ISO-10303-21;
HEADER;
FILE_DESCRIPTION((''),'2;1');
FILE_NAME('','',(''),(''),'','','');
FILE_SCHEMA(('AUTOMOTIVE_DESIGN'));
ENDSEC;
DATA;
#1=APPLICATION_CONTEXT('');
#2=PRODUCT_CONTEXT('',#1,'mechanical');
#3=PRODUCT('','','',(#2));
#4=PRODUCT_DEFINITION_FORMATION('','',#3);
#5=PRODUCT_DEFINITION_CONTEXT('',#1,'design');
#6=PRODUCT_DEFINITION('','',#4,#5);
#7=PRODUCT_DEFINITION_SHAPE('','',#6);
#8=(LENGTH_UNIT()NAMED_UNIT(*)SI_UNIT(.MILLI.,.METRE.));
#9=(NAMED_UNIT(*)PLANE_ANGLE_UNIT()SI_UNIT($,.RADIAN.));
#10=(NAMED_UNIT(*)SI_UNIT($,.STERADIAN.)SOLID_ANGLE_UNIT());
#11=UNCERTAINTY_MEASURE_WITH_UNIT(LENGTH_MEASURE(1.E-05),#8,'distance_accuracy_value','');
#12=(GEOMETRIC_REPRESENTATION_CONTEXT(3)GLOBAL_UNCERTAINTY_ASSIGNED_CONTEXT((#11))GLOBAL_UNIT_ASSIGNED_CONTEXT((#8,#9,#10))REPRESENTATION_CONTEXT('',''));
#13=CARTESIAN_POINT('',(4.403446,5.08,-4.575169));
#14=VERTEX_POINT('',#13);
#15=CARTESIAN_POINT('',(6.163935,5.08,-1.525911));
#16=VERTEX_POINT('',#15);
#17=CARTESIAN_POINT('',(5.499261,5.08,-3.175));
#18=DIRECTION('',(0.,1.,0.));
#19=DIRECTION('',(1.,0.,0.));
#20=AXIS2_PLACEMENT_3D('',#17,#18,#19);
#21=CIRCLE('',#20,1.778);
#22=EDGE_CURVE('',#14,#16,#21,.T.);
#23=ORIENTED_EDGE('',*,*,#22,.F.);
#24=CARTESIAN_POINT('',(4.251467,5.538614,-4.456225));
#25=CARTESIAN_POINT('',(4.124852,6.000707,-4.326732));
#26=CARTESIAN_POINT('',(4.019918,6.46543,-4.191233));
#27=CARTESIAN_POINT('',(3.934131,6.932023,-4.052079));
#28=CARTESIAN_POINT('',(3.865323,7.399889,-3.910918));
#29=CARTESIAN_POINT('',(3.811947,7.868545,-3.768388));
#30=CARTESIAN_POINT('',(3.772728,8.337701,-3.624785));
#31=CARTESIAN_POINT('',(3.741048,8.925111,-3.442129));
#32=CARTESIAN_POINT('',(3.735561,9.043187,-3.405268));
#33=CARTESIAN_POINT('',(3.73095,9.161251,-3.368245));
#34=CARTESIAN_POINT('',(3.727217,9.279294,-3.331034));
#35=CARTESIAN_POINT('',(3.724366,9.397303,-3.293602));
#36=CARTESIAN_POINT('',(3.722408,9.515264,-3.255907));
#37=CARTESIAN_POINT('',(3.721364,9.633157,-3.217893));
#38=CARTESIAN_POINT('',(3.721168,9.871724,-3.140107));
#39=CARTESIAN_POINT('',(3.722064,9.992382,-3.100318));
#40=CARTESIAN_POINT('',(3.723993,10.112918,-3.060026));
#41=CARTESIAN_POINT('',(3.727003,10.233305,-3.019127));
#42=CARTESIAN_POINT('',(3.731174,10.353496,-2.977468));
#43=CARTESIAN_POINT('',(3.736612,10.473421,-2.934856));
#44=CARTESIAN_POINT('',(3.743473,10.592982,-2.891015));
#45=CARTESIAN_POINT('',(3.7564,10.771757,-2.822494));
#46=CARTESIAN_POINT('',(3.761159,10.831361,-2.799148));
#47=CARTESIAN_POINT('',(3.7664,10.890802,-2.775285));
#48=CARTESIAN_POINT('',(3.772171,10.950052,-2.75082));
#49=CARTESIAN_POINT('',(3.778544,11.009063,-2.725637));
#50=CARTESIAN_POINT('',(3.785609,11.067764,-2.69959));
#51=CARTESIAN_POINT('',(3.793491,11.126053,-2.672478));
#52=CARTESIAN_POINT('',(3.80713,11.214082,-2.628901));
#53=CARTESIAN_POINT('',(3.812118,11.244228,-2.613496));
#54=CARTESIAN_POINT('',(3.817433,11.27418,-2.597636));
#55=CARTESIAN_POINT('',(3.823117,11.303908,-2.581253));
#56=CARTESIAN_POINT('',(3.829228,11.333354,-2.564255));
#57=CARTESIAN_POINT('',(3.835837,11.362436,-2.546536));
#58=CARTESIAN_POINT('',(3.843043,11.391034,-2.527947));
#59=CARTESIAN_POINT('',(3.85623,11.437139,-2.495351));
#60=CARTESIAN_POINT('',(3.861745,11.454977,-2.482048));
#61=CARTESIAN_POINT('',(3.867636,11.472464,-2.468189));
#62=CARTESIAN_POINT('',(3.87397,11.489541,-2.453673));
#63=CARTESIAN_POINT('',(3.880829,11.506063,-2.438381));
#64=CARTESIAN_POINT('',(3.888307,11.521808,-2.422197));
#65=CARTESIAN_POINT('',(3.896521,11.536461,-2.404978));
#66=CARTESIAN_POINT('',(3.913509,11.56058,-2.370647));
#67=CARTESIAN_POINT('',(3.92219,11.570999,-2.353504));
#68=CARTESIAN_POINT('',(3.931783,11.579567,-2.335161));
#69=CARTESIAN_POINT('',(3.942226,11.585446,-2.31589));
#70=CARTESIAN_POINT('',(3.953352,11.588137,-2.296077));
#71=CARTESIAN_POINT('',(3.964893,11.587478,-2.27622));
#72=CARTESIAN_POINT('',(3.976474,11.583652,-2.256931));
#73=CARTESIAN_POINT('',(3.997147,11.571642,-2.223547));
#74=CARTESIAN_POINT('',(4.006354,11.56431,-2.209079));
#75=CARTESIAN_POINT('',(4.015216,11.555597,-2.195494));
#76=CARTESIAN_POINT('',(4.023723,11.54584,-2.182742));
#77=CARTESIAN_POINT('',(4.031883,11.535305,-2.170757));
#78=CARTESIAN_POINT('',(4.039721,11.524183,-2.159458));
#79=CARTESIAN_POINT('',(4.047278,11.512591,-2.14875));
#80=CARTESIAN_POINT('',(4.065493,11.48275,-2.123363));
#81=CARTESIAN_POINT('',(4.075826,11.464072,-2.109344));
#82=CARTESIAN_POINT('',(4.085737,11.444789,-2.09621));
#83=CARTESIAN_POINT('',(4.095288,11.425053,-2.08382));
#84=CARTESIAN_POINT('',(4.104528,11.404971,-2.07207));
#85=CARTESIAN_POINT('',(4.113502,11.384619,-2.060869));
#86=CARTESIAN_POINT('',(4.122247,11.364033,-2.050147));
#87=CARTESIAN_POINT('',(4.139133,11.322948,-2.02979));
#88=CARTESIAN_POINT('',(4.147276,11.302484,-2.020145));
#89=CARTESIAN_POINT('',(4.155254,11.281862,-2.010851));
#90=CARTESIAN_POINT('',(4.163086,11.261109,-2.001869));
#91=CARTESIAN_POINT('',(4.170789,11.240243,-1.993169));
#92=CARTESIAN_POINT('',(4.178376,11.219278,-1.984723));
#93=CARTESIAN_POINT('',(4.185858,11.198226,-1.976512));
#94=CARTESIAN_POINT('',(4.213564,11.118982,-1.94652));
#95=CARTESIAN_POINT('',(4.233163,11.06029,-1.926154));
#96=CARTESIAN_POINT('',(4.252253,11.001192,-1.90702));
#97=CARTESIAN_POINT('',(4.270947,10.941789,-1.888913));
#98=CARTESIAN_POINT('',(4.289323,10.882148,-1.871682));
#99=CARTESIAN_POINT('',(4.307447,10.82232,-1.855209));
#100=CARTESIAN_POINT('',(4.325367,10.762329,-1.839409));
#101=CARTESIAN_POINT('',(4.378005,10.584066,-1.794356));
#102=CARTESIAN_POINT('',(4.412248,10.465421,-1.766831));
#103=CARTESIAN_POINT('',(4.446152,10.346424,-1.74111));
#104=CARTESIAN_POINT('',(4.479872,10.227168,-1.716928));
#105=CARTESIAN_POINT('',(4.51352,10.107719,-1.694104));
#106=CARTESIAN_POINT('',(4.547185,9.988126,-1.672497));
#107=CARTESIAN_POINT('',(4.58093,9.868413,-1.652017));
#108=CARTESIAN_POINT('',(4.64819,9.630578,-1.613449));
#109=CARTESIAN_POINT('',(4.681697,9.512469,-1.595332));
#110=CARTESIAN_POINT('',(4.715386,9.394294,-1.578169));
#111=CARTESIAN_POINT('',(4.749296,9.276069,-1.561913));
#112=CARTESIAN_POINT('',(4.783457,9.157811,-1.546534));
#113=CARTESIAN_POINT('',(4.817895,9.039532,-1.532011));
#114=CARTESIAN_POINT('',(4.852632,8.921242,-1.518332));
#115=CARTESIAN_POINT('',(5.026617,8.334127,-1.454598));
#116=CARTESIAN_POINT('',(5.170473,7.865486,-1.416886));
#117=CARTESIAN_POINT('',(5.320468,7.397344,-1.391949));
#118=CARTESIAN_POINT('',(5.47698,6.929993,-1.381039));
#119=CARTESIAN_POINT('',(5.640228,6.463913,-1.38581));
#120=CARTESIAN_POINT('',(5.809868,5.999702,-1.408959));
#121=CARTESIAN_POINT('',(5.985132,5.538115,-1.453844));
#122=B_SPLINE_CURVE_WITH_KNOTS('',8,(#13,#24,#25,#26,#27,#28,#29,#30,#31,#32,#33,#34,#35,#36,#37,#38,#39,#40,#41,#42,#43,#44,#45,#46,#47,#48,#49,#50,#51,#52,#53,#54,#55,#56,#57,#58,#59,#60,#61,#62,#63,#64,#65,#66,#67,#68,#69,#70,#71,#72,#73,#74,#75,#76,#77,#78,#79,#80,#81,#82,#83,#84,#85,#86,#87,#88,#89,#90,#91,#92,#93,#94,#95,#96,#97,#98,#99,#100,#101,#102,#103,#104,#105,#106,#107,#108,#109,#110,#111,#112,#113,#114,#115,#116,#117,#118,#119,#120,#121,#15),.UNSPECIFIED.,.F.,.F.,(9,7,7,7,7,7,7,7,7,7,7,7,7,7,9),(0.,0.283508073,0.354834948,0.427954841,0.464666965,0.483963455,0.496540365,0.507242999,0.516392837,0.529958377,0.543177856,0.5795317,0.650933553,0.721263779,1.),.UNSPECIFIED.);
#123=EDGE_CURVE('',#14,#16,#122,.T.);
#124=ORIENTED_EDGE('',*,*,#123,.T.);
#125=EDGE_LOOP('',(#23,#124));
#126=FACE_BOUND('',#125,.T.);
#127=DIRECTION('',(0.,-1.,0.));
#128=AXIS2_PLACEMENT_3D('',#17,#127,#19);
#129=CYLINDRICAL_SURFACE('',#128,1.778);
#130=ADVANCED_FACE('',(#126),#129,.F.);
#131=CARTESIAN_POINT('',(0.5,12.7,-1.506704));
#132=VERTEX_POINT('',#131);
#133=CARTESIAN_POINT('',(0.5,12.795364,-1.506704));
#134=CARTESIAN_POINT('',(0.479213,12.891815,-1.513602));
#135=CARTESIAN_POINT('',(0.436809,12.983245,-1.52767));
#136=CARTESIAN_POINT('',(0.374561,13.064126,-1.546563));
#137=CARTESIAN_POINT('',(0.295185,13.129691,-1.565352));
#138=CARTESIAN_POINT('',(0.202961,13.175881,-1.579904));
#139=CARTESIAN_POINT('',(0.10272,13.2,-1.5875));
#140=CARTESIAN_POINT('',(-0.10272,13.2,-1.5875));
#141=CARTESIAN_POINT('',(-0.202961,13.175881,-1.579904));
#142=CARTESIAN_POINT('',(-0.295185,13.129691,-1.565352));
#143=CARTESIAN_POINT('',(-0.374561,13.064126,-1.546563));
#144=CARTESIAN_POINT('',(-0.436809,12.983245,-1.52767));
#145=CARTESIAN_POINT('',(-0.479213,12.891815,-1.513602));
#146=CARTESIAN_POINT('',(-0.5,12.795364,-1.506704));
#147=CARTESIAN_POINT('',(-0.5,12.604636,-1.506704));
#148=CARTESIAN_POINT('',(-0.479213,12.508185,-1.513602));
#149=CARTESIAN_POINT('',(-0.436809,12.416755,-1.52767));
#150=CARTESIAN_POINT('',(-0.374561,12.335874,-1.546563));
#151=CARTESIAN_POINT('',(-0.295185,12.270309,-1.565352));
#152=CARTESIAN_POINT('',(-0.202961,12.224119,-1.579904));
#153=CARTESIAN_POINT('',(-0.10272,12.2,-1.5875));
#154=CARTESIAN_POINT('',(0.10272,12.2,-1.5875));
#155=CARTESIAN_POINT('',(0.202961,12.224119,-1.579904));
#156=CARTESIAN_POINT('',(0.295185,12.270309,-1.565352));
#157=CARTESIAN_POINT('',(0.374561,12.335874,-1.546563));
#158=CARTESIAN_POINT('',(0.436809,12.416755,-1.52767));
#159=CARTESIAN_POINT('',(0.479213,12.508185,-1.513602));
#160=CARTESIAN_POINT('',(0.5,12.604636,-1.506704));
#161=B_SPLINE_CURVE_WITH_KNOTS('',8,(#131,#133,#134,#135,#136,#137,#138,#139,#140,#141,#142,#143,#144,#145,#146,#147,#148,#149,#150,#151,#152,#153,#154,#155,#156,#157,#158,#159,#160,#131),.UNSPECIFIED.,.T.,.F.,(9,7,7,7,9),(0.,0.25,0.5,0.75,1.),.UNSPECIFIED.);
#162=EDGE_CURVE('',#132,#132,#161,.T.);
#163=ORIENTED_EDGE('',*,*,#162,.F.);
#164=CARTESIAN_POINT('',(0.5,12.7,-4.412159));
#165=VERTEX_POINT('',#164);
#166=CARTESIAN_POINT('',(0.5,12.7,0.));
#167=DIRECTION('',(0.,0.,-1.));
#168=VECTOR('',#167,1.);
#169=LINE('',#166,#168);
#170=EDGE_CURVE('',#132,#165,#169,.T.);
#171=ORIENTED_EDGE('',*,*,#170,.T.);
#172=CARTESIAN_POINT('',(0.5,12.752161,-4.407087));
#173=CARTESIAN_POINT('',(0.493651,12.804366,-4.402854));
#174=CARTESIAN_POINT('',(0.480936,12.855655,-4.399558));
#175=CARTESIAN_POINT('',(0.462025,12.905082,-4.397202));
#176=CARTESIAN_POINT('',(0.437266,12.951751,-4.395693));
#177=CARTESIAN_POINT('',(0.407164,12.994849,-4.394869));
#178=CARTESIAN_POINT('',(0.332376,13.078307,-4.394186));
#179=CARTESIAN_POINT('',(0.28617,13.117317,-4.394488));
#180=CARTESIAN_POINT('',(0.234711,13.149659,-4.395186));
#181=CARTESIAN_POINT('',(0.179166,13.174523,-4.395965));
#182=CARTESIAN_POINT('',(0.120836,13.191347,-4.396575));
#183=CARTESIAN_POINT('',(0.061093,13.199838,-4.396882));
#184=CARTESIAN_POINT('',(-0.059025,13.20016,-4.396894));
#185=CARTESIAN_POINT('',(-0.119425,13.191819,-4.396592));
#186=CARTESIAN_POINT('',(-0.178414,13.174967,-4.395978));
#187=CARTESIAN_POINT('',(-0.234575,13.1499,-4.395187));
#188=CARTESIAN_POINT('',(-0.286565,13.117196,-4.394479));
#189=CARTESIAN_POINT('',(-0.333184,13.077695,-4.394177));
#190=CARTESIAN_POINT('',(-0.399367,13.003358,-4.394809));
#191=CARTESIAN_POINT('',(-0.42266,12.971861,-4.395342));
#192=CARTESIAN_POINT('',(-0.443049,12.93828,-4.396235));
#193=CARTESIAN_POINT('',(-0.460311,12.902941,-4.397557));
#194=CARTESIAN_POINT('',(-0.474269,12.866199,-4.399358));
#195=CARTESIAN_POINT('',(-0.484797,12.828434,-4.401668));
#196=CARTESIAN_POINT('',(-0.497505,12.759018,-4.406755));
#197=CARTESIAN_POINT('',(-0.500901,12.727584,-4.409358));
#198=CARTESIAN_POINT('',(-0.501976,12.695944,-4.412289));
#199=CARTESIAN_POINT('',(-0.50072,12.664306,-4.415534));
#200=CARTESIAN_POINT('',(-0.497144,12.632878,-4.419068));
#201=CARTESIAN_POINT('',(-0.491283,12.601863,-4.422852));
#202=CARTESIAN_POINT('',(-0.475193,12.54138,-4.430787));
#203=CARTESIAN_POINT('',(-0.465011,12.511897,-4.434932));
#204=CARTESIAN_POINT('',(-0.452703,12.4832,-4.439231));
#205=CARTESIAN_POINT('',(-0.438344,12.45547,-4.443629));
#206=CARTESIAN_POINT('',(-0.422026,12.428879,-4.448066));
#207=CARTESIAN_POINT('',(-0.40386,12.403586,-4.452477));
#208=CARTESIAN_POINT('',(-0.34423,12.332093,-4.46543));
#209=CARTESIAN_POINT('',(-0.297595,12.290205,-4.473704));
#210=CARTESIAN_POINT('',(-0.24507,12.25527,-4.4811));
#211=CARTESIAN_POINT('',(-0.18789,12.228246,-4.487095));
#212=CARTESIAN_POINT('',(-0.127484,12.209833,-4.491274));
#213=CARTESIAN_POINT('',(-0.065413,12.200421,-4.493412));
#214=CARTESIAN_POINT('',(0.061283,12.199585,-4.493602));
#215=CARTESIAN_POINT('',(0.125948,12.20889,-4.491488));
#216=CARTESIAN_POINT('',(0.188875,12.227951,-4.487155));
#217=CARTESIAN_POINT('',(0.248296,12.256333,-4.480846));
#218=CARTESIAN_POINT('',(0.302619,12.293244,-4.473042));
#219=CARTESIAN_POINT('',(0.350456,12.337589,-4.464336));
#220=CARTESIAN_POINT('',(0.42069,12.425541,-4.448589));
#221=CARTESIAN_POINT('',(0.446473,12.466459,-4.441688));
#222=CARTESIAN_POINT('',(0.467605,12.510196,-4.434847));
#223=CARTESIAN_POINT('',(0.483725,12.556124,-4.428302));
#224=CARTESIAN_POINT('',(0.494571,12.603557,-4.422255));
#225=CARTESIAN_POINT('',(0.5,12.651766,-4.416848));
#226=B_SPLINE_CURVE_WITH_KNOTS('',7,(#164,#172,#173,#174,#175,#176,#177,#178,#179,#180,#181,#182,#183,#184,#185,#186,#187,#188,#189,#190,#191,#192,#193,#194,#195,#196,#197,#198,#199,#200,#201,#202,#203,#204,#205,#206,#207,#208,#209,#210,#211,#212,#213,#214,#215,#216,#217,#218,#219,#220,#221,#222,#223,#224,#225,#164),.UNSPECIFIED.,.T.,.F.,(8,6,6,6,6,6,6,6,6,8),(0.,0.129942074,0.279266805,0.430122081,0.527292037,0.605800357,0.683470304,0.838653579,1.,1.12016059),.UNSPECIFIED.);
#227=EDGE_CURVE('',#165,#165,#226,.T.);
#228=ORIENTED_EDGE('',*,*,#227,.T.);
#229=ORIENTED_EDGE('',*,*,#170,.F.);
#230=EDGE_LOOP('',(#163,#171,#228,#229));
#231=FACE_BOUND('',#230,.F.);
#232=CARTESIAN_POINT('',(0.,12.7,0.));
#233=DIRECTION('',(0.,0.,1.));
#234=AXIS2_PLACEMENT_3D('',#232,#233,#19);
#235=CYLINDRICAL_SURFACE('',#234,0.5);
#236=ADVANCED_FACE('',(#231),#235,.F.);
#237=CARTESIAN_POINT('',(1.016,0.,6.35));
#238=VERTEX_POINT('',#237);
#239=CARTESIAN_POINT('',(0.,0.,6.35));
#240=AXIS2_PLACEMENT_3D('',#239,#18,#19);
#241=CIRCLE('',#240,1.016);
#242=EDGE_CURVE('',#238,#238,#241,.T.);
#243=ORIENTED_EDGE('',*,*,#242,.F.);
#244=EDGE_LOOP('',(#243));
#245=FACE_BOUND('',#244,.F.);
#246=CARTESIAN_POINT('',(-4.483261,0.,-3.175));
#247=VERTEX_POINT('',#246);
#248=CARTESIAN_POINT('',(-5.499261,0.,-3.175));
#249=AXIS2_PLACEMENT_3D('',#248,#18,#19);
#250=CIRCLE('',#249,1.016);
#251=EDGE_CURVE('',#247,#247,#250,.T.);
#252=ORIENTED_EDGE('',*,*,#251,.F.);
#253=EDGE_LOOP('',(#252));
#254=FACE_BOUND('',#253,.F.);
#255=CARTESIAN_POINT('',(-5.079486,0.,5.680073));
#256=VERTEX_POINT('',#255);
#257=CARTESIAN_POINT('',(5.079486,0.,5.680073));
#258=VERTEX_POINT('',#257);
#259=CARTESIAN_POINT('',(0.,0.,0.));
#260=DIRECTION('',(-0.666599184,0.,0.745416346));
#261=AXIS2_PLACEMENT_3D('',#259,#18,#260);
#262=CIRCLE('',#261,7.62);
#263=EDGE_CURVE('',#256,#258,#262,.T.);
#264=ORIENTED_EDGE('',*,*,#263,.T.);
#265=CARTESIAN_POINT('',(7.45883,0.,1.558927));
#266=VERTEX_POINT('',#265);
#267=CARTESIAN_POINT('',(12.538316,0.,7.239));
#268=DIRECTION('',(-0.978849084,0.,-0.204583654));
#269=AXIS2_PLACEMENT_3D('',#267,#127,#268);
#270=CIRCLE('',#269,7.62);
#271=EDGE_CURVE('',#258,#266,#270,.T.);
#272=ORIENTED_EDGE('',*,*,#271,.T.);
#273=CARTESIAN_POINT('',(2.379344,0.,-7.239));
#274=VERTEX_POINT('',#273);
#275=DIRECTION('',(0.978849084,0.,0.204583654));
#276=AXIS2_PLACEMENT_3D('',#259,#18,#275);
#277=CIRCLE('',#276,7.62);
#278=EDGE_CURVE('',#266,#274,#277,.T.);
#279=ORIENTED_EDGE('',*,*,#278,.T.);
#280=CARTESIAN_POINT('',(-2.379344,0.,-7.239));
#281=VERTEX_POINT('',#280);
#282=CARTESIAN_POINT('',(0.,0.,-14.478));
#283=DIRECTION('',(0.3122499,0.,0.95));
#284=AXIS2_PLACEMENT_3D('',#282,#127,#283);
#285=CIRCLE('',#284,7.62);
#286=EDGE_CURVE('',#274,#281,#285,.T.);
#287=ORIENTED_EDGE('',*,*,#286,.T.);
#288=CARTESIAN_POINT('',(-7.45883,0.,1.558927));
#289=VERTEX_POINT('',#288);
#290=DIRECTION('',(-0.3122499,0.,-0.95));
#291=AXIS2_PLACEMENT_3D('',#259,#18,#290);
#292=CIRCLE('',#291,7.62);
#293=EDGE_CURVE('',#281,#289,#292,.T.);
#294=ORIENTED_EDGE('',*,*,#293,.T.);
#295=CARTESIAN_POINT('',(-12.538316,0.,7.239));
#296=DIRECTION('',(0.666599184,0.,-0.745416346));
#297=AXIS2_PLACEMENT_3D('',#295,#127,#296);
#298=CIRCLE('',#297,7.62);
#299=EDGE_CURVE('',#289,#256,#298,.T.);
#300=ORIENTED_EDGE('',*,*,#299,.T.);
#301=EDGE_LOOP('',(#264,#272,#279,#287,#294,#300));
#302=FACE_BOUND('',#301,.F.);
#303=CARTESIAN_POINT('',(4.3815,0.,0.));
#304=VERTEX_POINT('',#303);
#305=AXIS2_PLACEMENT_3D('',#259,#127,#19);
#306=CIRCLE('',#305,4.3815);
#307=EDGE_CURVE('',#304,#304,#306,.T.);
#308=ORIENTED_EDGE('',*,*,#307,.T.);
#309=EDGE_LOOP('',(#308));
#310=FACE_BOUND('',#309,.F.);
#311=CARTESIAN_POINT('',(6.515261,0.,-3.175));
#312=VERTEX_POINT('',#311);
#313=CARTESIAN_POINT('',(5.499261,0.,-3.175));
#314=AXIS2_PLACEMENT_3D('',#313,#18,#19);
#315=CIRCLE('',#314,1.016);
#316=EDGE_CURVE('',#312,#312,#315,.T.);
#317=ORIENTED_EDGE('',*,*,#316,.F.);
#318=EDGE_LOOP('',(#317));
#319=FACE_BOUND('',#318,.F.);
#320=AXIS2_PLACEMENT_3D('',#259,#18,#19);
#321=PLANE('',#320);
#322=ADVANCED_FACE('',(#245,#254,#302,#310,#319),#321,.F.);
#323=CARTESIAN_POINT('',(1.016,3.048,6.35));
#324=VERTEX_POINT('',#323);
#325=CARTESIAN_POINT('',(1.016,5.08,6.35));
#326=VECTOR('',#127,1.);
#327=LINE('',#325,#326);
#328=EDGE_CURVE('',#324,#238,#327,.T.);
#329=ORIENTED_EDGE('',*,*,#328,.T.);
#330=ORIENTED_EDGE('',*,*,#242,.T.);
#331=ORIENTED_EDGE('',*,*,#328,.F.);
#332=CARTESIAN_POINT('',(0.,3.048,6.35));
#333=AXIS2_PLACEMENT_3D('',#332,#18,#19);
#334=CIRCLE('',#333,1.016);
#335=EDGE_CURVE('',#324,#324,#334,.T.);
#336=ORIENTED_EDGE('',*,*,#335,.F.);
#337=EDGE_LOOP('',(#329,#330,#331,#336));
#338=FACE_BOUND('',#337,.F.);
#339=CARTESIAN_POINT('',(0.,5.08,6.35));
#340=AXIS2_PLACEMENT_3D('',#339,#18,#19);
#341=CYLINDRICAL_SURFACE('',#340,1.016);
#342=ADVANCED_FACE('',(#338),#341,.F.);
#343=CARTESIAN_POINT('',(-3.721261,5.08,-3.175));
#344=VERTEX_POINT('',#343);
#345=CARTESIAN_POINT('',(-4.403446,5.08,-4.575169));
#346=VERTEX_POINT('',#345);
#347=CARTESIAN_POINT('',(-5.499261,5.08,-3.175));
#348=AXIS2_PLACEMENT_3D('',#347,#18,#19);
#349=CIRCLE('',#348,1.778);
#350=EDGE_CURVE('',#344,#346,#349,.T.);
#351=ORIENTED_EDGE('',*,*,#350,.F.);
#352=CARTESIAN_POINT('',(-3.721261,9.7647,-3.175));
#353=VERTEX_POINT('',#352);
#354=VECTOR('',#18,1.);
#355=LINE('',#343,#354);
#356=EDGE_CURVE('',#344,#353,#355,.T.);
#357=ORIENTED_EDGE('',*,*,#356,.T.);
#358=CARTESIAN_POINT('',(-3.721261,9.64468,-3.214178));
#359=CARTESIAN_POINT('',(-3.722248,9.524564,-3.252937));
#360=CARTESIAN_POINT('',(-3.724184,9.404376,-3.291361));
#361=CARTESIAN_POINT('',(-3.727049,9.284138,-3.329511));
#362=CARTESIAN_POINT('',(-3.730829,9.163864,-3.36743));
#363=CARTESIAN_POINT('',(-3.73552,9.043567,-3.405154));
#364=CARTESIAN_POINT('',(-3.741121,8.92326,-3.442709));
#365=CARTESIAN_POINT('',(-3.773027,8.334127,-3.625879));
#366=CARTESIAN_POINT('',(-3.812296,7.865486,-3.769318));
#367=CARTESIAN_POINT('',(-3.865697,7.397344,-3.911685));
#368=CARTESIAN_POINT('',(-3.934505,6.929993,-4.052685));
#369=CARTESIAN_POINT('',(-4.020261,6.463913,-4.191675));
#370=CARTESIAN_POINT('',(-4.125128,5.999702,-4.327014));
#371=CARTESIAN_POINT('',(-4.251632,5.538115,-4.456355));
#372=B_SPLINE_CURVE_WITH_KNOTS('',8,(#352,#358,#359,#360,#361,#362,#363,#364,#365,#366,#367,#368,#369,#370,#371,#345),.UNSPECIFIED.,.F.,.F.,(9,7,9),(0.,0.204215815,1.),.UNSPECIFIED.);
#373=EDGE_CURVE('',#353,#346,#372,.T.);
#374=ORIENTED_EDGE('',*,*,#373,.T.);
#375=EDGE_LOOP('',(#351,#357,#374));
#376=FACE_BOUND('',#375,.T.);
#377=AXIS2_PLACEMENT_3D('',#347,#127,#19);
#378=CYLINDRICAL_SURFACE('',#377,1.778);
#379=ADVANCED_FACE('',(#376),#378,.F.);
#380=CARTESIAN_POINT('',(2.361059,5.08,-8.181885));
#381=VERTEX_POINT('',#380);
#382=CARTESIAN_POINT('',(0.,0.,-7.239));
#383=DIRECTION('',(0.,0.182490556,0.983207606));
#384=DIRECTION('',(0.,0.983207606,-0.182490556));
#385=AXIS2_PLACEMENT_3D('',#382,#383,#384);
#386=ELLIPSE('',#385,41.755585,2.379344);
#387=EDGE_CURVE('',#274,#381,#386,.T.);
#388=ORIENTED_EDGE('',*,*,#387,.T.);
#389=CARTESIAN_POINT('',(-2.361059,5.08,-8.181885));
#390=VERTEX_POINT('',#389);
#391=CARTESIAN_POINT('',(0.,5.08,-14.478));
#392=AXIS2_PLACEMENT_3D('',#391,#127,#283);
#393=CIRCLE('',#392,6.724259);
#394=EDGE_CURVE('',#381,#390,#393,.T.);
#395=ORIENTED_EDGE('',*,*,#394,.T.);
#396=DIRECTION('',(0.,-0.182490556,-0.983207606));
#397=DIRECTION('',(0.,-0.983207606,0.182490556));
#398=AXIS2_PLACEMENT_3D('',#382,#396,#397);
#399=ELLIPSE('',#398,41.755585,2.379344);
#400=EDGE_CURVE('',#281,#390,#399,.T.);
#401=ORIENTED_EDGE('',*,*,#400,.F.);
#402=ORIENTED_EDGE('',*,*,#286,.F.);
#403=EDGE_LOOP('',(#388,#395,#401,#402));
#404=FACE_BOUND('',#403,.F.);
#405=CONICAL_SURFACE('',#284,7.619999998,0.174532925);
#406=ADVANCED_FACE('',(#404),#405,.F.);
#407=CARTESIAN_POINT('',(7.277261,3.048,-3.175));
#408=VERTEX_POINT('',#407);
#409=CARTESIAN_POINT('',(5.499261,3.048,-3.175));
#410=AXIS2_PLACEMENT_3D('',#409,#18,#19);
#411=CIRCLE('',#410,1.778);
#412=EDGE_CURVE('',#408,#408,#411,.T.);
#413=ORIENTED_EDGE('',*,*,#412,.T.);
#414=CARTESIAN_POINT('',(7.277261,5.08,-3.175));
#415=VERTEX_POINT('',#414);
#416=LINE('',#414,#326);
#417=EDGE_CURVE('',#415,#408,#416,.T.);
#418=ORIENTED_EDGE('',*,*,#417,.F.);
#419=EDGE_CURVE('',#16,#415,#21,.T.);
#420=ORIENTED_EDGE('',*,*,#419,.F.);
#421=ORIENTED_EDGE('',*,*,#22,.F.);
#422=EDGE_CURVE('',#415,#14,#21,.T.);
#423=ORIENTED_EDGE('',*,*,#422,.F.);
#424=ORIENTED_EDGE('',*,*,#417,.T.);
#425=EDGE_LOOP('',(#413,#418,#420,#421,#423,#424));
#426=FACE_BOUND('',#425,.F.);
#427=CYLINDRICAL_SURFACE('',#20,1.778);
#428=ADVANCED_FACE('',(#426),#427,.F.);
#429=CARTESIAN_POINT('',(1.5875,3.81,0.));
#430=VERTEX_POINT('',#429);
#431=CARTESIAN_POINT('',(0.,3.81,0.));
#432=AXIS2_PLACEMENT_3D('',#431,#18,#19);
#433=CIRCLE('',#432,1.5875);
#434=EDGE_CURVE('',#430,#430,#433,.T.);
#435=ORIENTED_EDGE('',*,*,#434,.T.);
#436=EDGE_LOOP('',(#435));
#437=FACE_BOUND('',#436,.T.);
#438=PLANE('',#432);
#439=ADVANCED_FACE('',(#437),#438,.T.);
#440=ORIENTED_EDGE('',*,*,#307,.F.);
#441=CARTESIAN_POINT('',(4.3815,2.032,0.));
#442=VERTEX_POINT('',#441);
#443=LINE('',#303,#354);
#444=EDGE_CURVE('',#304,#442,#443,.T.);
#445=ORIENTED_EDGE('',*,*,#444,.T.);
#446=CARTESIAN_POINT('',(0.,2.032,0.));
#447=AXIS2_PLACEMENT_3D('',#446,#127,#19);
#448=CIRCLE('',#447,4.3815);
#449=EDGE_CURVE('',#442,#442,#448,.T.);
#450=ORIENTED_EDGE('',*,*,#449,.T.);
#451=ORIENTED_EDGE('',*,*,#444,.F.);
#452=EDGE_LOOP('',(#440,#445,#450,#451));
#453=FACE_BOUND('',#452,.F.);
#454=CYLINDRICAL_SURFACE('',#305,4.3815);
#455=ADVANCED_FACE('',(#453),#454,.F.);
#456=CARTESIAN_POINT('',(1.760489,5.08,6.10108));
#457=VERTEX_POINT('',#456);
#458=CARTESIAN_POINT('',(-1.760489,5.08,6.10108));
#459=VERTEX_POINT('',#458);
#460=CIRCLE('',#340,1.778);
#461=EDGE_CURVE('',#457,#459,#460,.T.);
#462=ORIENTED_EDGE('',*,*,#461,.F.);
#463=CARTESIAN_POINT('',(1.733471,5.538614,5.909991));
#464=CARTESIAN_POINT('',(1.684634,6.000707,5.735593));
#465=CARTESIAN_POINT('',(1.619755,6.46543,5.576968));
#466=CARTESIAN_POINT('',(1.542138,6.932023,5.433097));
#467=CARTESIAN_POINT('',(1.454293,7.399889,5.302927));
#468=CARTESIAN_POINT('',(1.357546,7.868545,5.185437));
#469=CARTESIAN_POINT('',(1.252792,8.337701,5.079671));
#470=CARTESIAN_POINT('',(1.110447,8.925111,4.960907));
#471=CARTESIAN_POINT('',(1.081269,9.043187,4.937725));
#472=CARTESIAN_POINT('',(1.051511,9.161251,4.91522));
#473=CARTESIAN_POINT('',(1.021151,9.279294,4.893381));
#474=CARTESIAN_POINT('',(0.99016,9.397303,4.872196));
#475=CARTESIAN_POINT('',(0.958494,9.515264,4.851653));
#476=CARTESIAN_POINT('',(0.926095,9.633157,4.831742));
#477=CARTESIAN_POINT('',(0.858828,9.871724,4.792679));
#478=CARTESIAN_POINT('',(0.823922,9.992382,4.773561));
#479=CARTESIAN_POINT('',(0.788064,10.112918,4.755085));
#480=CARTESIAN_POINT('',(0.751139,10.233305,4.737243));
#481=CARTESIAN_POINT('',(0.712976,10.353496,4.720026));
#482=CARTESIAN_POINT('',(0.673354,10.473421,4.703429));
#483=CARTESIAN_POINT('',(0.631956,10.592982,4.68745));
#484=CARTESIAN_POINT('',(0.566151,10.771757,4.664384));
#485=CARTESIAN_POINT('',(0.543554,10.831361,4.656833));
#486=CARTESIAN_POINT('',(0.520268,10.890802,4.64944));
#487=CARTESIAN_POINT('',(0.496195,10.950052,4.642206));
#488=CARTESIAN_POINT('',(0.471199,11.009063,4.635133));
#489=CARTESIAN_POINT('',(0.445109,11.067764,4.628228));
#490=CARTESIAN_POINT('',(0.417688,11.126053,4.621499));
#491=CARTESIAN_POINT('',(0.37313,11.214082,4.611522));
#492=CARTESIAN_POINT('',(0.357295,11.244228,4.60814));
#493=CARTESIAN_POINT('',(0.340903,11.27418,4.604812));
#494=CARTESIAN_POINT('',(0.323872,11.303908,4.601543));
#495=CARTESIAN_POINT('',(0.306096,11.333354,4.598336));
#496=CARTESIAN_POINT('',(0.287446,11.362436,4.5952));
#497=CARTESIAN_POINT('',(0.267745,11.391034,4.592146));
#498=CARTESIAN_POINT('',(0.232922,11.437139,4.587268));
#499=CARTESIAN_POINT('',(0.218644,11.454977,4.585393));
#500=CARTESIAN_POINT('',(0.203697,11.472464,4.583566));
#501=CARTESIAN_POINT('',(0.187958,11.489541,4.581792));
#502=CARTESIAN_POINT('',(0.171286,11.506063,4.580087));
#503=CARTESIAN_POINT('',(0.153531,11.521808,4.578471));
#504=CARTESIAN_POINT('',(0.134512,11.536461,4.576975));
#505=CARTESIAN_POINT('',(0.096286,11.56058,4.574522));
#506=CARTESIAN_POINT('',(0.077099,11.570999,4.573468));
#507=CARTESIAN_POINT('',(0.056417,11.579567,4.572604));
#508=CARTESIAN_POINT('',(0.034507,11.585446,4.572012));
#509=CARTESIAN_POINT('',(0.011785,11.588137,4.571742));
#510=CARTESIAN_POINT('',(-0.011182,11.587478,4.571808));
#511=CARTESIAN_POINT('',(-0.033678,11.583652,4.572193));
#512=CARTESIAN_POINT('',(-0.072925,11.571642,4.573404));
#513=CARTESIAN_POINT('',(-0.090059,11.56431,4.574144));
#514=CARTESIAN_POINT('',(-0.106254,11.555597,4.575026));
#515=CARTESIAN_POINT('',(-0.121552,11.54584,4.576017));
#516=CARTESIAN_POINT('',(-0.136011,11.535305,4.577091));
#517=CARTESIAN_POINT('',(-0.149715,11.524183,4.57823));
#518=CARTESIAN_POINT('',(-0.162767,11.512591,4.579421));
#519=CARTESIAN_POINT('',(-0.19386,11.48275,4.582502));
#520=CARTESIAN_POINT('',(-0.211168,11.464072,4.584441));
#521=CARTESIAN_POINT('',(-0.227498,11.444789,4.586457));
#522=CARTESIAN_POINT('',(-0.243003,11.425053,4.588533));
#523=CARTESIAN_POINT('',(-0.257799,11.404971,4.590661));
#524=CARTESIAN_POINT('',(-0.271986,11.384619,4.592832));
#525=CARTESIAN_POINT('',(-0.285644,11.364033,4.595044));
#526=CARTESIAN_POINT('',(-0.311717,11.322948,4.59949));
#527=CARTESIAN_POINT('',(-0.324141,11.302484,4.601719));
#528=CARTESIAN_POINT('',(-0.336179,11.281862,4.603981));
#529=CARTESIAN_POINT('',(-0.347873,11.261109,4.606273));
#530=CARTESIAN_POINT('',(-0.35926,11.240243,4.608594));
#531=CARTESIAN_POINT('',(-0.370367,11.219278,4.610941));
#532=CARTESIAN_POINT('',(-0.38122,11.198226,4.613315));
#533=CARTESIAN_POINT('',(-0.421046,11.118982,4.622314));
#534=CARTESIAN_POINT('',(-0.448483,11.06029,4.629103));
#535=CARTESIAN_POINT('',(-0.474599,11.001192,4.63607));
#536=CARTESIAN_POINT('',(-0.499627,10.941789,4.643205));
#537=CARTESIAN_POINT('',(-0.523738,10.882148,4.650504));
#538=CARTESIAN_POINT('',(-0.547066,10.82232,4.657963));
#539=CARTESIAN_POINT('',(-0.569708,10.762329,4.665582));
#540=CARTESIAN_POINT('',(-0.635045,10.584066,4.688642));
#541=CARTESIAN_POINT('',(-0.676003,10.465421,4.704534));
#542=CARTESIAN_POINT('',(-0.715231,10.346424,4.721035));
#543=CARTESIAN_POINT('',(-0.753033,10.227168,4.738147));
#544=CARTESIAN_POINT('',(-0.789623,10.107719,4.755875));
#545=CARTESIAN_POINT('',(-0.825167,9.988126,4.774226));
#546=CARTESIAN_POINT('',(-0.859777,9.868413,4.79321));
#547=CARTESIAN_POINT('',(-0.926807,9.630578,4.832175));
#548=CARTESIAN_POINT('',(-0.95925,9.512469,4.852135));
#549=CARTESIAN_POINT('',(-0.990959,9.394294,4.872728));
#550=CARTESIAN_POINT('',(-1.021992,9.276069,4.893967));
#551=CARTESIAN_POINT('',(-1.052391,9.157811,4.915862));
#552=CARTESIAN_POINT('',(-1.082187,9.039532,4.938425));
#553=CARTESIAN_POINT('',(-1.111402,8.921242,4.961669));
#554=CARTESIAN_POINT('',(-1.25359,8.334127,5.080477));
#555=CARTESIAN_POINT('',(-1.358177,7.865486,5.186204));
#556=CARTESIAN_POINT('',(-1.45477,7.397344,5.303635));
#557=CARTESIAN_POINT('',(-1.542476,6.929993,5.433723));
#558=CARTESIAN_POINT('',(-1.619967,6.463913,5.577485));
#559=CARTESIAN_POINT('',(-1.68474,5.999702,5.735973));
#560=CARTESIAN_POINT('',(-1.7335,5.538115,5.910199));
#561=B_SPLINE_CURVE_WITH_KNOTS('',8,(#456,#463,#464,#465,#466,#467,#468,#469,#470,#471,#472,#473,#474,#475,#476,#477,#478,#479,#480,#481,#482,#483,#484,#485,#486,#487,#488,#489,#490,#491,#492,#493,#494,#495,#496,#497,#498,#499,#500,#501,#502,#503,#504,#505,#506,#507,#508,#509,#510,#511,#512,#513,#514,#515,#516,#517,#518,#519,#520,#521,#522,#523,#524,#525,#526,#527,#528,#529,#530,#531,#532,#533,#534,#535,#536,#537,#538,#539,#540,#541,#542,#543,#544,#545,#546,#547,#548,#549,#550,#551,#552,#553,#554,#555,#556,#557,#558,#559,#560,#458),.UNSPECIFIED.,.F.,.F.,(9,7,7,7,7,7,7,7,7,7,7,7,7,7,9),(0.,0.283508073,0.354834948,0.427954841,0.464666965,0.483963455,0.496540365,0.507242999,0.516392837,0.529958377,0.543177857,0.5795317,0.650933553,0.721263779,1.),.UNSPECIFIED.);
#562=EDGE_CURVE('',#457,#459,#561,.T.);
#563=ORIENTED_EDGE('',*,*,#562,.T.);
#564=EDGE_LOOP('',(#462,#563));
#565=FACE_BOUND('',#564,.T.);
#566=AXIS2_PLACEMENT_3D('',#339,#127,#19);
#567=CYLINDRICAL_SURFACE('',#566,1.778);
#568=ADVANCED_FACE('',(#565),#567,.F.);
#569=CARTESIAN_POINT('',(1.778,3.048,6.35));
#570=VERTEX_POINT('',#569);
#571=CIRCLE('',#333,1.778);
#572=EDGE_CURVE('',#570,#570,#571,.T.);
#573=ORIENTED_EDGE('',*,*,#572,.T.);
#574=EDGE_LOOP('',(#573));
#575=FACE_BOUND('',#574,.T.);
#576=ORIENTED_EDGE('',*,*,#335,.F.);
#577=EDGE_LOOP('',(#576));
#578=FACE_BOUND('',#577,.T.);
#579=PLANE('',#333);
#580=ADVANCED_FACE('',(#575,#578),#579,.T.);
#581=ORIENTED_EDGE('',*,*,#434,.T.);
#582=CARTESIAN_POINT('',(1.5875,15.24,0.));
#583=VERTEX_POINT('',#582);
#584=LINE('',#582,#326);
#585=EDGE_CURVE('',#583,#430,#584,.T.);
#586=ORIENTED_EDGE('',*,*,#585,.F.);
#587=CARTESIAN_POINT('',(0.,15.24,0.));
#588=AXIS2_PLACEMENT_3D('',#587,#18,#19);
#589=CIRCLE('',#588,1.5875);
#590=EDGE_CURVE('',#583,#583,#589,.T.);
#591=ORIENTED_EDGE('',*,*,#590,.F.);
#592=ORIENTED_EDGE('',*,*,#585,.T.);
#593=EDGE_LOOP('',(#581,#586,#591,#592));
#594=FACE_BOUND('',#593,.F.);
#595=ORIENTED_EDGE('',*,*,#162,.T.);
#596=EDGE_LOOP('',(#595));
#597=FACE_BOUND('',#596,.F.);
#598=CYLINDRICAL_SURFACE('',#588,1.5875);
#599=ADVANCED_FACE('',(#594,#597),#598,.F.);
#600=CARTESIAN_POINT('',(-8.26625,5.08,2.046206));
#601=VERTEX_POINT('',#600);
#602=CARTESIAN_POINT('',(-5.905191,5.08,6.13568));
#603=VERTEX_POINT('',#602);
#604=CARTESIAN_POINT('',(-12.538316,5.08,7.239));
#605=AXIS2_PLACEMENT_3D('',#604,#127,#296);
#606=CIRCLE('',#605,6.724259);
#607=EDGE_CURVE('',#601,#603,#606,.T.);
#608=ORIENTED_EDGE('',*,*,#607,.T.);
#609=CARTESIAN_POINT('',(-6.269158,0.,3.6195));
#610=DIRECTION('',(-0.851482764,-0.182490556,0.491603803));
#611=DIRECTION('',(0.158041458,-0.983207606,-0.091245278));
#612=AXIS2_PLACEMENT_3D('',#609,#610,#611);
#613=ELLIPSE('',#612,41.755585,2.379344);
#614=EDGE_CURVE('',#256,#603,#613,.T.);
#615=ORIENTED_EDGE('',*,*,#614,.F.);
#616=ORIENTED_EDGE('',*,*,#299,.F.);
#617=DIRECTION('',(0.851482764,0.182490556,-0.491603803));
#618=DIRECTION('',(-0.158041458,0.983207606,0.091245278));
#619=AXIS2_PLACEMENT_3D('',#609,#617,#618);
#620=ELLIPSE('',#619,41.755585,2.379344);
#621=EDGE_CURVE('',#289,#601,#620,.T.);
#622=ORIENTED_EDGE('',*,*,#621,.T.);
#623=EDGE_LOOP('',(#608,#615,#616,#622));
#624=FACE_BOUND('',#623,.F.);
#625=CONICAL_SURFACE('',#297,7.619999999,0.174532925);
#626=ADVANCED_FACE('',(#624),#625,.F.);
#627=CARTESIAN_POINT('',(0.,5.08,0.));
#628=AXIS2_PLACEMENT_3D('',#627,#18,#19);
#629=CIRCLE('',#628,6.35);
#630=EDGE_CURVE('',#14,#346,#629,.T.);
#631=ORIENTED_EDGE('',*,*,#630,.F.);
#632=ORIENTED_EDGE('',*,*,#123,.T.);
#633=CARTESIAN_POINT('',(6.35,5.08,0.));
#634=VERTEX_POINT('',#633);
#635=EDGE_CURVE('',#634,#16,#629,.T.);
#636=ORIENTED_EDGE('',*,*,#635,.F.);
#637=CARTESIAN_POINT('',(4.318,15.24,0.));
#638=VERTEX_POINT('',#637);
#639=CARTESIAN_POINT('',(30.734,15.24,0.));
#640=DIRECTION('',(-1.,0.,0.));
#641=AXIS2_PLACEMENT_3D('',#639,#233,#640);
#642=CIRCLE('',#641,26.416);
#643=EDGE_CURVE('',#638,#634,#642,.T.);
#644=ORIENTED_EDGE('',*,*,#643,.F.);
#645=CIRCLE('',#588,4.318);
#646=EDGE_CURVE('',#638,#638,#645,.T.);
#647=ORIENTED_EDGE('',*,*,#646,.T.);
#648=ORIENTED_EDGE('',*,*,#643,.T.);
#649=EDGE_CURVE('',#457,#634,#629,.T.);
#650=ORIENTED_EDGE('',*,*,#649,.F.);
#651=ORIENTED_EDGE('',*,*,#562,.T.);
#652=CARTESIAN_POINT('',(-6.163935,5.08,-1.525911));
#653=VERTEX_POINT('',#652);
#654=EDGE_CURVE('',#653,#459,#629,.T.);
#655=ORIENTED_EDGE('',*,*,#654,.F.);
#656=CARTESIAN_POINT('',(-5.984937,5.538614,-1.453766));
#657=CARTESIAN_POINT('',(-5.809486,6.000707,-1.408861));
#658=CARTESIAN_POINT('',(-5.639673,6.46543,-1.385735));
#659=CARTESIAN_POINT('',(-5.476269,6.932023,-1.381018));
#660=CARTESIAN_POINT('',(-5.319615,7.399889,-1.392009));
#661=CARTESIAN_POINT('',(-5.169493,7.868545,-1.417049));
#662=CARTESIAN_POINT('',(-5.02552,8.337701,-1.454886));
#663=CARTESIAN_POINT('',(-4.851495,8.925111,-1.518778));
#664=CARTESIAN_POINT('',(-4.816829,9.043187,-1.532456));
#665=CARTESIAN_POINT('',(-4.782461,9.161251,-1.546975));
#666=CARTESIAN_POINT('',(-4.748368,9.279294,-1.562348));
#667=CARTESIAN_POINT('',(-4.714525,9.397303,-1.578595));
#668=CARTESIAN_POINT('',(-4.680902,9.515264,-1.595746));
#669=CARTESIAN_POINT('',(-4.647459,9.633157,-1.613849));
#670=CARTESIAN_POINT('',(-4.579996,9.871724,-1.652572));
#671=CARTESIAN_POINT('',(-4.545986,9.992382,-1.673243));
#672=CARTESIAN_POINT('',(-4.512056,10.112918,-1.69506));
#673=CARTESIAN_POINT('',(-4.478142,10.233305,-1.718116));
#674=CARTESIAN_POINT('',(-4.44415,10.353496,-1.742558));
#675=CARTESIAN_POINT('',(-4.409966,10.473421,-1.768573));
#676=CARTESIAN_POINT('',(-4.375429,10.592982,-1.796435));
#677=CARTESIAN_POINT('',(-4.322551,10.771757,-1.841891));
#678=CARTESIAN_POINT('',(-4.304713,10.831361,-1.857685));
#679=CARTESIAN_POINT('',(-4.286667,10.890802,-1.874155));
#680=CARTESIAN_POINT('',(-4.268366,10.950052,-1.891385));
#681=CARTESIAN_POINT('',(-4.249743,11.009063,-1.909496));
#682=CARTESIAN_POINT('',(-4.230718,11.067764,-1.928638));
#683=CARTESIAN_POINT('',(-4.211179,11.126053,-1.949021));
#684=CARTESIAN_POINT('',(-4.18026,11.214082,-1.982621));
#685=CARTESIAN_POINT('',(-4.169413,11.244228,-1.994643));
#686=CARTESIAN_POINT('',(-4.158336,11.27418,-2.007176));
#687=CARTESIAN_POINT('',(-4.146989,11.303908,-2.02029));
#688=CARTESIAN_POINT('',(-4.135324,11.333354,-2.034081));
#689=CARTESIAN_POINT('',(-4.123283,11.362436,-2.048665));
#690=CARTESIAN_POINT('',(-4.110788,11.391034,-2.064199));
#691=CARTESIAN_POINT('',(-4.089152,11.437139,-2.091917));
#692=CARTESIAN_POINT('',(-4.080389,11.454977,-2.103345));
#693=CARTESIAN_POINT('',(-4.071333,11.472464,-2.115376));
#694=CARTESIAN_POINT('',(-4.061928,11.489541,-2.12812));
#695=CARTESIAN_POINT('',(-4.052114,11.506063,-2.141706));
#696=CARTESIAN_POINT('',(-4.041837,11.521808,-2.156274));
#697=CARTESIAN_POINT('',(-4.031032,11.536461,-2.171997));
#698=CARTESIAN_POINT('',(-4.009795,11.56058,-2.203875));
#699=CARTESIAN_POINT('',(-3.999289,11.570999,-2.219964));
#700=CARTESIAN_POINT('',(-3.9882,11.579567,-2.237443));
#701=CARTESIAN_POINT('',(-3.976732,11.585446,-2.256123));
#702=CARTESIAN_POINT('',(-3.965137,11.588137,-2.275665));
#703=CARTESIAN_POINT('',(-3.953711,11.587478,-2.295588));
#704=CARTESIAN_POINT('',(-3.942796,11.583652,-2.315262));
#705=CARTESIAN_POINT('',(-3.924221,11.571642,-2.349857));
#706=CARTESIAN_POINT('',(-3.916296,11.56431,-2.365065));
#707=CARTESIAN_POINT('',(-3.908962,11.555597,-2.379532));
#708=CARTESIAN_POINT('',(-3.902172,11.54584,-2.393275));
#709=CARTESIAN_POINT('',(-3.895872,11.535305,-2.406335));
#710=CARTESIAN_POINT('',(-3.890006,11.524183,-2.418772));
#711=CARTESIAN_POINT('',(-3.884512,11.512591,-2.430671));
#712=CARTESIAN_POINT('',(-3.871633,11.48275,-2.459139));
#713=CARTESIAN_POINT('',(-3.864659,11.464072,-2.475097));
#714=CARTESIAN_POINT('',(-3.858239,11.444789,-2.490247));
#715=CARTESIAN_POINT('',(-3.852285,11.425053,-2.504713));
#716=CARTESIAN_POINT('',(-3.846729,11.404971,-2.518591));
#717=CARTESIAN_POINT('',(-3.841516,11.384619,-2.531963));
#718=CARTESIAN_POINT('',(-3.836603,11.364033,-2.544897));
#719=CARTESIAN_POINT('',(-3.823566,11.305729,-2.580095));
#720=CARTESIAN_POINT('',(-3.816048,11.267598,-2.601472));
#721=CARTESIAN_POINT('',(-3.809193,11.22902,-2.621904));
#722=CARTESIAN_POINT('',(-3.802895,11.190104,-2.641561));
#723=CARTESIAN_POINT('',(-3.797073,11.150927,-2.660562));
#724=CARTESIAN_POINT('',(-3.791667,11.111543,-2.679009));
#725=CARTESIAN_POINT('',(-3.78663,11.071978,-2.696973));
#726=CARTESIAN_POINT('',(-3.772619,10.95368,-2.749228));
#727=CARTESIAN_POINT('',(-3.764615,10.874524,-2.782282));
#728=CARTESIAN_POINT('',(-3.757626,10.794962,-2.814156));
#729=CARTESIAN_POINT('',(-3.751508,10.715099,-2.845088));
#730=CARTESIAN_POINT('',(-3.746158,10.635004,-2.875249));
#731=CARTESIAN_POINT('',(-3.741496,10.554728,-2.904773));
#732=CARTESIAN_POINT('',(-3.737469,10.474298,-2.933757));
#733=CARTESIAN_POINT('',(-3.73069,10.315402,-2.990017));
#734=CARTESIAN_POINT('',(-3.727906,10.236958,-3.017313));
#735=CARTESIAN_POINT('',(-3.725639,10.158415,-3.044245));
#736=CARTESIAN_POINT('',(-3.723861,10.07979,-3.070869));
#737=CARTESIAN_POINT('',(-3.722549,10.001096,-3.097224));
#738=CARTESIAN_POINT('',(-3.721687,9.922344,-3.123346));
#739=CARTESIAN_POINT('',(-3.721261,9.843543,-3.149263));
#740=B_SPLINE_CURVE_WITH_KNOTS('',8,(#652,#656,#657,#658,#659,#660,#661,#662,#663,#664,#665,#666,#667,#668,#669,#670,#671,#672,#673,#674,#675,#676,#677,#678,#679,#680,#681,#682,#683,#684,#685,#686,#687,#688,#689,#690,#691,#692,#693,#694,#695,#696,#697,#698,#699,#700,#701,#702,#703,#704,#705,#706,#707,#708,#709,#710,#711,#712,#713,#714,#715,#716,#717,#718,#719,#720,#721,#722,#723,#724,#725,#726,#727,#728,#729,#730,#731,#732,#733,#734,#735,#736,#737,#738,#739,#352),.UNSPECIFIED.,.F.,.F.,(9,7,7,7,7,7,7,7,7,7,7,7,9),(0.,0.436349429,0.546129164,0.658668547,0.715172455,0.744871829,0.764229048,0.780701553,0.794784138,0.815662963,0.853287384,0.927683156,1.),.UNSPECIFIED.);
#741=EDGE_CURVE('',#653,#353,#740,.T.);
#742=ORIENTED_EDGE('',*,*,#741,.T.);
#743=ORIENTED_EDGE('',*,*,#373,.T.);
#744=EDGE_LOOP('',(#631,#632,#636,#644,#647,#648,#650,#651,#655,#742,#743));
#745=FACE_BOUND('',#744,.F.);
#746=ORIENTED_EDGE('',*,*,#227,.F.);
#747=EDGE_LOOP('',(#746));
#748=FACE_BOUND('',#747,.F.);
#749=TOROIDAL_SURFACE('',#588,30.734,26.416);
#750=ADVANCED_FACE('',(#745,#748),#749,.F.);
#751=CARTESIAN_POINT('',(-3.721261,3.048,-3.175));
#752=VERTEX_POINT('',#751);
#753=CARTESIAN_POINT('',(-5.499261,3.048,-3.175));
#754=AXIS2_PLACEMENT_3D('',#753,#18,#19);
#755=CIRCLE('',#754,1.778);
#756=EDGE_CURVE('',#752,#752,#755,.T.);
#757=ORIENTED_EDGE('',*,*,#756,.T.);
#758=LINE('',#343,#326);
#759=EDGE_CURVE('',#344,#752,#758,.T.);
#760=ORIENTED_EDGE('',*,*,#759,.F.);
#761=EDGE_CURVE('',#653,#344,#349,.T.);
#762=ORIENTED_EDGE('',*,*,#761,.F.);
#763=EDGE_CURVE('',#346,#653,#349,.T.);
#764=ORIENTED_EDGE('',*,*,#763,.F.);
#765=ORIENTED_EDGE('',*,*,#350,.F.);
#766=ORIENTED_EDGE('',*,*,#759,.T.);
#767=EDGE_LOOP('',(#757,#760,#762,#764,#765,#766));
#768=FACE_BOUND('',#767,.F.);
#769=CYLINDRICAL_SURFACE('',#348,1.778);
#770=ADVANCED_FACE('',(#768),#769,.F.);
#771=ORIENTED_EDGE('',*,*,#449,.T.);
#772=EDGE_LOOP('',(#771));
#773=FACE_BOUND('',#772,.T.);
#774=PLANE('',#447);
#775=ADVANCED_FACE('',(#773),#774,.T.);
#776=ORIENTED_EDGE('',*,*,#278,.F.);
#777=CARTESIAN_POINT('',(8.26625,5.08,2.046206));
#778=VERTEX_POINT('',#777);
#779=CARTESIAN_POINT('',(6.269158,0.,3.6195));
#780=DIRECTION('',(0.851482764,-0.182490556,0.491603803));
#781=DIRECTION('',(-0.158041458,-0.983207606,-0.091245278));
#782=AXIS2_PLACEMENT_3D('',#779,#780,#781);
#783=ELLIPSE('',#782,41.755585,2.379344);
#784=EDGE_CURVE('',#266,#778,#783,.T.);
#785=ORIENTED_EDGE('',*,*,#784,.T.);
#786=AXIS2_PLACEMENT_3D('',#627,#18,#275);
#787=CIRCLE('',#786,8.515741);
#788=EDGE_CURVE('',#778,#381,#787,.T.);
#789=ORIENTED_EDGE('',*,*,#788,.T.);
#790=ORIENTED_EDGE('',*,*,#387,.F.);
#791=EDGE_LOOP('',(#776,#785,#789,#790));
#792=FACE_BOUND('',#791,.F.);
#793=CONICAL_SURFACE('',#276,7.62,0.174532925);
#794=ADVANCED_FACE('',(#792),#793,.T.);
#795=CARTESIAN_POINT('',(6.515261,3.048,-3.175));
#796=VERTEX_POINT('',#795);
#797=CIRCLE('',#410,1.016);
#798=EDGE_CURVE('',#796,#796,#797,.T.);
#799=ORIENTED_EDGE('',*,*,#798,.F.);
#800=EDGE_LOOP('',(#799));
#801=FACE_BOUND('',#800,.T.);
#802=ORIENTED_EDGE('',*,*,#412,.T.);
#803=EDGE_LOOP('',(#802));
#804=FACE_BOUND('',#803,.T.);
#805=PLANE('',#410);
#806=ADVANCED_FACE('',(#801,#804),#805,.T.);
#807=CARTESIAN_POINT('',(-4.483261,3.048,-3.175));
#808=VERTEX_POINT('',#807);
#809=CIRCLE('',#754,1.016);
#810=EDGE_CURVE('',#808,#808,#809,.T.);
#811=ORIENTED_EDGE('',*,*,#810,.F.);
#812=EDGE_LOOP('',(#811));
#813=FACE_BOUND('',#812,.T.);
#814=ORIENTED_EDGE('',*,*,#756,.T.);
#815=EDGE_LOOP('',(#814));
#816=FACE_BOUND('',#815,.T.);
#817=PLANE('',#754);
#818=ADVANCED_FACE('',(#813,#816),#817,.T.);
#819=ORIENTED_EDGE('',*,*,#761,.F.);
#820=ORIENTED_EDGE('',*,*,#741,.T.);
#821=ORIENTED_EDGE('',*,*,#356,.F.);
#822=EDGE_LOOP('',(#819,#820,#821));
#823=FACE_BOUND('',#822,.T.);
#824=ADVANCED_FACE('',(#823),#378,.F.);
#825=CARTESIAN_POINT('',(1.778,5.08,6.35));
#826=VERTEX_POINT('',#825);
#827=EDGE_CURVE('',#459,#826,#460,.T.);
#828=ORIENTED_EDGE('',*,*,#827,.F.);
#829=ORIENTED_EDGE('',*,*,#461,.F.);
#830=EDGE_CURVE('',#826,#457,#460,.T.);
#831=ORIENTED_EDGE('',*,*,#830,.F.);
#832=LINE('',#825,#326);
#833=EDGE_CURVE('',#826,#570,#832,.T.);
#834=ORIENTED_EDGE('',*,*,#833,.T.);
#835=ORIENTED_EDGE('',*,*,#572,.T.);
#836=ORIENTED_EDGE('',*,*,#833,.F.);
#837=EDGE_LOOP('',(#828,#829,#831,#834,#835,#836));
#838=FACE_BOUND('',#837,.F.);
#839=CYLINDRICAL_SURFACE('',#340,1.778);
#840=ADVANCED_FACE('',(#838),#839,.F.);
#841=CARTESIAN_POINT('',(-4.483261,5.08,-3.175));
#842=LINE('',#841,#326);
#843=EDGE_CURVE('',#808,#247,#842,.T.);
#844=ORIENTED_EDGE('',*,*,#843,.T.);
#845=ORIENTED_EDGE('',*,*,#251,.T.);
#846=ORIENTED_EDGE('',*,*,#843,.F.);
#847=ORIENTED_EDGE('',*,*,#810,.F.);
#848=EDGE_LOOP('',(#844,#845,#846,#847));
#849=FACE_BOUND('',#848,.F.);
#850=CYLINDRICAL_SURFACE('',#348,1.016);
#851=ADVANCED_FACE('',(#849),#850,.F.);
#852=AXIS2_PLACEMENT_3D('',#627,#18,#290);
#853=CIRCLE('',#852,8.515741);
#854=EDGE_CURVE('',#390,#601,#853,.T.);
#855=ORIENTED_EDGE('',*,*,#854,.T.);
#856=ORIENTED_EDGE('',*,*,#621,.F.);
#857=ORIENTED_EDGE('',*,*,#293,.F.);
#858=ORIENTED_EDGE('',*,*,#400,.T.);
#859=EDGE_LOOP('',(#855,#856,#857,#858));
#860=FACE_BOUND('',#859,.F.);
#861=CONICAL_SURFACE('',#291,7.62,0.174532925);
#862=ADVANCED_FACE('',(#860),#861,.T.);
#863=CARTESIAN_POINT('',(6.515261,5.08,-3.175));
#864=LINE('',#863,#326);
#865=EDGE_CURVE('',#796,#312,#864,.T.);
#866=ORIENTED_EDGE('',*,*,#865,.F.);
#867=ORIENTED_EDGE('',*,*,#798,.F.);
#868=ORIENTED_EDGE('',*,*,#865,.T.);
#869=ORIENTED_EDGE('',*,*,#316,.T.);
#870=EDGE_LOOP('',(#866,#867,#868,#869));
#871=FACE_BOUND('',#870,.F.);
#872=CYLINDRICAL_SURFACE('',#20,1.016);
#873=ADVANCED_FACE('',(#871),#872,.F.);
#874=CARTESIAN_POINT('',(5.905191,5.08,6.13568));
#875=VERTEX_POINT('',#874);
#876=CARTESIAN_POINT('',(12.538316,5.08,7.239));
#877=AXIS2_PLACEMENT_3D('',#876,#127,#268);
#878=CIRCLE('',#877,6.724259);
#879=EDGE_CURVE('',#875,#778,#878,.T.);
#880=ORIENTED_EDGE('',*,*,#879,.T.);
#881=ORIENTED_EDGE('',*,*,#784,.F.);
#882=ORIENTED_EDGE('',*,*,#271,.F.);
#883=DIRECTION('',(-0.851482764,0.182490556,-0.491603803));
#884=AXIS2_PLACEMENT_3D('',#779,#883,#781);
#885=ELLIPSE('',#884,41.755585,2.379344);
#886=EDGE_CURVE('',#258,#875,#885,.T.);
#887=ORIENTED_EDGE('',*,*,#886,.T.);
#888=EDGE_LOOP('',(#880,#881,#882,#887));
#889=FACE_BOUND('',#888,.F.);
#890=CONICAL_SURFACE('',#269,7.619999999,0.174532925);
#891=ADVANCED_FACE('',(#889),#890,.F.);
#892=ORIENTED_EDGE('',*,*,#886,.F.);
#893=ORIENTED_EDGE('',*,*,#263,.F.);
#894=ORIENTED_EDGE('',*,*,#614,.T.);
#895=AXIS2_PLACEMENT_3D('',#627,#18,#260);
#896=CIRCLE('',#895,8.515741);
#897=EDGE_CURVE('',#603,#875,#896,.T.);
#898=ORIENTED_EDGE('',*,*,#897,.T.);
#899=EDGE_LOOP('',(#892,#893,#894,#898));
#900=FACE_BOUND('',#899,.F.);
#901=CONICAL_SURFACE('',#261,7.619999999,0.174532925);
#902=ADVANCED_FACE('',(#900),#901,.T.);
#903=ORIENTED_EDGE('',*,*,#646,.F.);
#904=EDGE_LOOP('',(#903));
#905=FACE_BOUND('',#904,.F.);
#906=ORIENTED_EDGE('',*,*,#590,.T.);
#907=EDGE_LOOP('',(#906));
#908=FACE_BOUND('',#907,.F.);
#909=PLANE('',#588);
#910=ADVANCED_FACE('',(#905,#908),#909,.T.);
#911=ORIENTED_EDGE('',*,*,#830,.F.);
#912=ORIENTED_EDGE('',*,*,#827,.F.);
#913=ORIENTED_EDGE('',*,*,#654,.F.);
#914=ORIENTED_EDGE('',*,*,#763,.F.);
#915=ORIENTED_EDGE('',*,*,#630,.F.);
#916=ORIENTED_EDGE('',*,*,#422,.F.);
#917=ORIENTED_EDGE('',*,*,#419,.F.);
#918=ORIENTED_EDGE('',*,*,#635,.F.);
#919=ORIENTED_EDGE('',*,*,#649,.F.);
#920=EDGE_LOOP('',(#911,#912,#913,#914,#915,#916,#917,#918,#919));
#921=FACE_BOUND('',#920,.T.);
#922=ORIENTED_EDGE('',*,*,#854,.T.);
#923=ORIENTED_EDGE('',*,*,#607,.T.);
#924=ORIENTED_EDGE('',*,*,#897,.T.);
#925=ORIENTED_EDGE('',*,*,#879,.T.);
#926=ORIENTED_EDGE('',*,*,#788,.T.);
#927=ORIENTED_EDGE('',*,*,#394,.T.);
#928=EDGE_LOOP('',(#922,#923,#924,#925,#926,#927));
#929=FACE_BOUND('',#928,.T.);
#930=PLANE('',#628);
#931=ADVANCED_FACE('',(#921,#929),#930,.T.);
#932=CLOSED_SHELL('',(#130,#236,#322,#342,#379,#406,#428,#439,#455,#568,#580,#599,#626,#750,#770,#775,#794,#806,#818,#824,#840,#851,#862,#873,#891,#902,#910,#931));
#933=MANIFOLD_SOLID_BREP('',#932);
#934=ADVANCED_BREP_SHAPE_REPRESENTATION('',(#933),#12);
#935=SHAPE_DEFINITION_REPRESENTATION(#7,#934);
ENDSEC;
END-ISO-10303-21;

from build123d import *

# Parameters (mm, degrees)
BOSS_EXTRUDE1_DEPTH     = 5.08
BOSS_EXTRUDE1_DRAFT     = -10
SKETCH2_R               = 1.016
CUT_EXTRUDE1_DEPTH      = 6.08
SKETCH3_R               = 1.778
CUT_EXTRUDE2_DEPTH      = 2.032
SKETCH4_R               = 4.3815
CUT_EXTRUDE3_DEPTH      = 2.032
SKETCH3_2_R             = 1.778
CUT_EXTRUDE4_DEPTH      = 10.16
CUT_EXTRUDE4_DEPTH_BACK = 2.032
SKETCH7_R               = 1.5875
CUT_EXTRUDE5_DEPTH      = 11.43
SKETCH8_R               = 0.5
CUT_EXTRUDE6_DEPTH      = 9.181885328


with BuildPart() as part:
    # Sketch1 → Boss-Extrude1 (with draft: the straight prism first)
    with BuildSketch(Plane(origin=(0, 0, 0), x_dir=(1, 0, 0), z_dir=(0, 1, 0))):
        with BuildLine():
            ThreePointArc((7.458830017, -1.558927446), (6.599113577, 3.81), (2.379344237, 7.239))
            ThreePointArc((2.379344237, 7.239), (0, 6.858), (-2.379344237, 7.239))
            ThreePointArc((-2.379344237, 7.239), (-6.599113577, 3.81), (-7.458830017, -1.558927446))
            ThreePointArc((-7.458830017, -1.558927446), (-5.939202219, -3.429), (-5.079485779, -5.680072554))
            ThreePointArc((-5.079485779, -5.680072554), (0, -7.62), (5.079485779, -5.680072554))
            ThreePointArc((5.079485779, -5.680072554), (5.939202219, -3.429), (7.458830017, -1.558927446))
        make_face()
    extrude(amount=BOSS_EXTRUDE1_DEPTH)
    # Boss-Extrude1: the draft: its side faces are tilted about the plane it starts from
    boss_extrude1_sides = [part.faces().sort_by_distance(p)[0] for p in [
        (5.939202219, 2.54, 3.429),
        (6.599113577, 2.54, -3.81),
        (0, 2.54, -6.858),
        (-6.599113577, 2.54, -3.81),
        (-5.939202219, 2.54, 3.429),
        (0, 2.54, 7.62),
    ]]
    draft(boss_extrude1_sides, Plane(origin=(0, 0, 0), x_dir=(1, 0, 0), z_dir=(0, 1, 0)), BOSS_EXTRUDE1_DRAFT)

    # Sketch2 → Cut-Extrude1 (cut, through all)
    with BuildSketch(Plane(origin=(0, 5.08, 0), x_dir=(1, 0, 0), z_dir=(0, 1, 0))):
        with Locations((0, -6.35)):
            Circle(SKETCH2_R)
        with Locations((-5.499261314, 3.175)):
            Circle(SKETCH2_R)
        with Locations((5.499261314, 3.175)):
            Circle(SKETCH2_R)
    extrude(amount=-CUT_EXTRUDE1_DEPTH, mode=Mode.SUBTRACT)

    # Sketch3 → Cut-Extrude2 (cut)
    with BuildSketch(Plane(origin=(0, 5.08, 0), x_dir=(1, 0, 0), z_dir=(0, 1, 0))):
        with Locations((0, -6.35)):
            Circle(SKETCH3_R)
        with Locations((-5.499261314, 3.175)):
            Circle(SKETCH3_R)
        with Locations((5.499261314, 3.175)):
            Circle(SKETCH3_R)
    extrude(amount=-CUT_EXTRUDE2_DEPTH, mode=Mode.SUBTRACT)

    # Sketch4 → Cut-Extrude3 (cut)
    with BuildSketch(Plane.XZ):
        Circle(SKETCH4_R)
    extrude(amount=-CUT_EXTRUDE3_DEPTH, mode=Mode.SUBTRACT)

    # Sketch6 → Revolve1 (revolve)
    with BuildSketch(Plane.XY):
        with BuildLine():
            Line((0, 5.08), (0, 15.24))
            Line((0, 15.24), (4.318, 15.24))
            ThreePointArc((4.318, 15.24), (4.830980871, 10.059396174), (6.35, 5.08))
            Line((6.35, 5.08), (0, 5.08))
        make_face()
    revolve(axis=Axis((0, 5.08, 0), (0, 1, 0)))

    # Sketch3<2> → Cut-Extrude4 (cut, two sides)
    with BuildSketch(Plane(origin=(0, 5.08, 0), x_dir=(1, 0, 0), z_dir=(0, 1, 0))) as cut_extrude4_sk:
        with Locations((0, -6.35)):
            Circle(SKETCH3_2_R)
        with Locations((-5.499261314, 3.175)):
            Circle(SKETCH3_2_R)
        with Locations((5.499261314, 3.175)):
            Circle(SKETCH3_2_R)
    extrude(amount=CUT_EXTRUDE4_DEPTH, mode=Mode.SUBTRACT)
    extrude(cut_extrude4_sk.sketch, amount=-CUT_EXTRUDE4_DEPTH_BACK, mode=Mode.SUBTRACT)

    # Sketch7 → Cut-Extrude5 (cut)
    with BuildSketch(Plane(origin=(0, 15.24, 0), x_dir=(1, 0, 0), z_dir=(0, 1, 0))):
        Circle(SKETCH7_R)
    extrude(amount=-CUT_EXTRUDE5_DEPTH, mode=Mode.SUBTRACT)

    # Sketch8 → Cut-Extrude6 (cut, through all)
    with BuildSketch(Plane.XY):
        with Locations((0, 12.7)):
            Circle(SKETCH8_R)
    extrude(amount=-CUT_EXTRUDE6_DEPTH, mode=Mode.SUBTRACT)


solid = part.part
